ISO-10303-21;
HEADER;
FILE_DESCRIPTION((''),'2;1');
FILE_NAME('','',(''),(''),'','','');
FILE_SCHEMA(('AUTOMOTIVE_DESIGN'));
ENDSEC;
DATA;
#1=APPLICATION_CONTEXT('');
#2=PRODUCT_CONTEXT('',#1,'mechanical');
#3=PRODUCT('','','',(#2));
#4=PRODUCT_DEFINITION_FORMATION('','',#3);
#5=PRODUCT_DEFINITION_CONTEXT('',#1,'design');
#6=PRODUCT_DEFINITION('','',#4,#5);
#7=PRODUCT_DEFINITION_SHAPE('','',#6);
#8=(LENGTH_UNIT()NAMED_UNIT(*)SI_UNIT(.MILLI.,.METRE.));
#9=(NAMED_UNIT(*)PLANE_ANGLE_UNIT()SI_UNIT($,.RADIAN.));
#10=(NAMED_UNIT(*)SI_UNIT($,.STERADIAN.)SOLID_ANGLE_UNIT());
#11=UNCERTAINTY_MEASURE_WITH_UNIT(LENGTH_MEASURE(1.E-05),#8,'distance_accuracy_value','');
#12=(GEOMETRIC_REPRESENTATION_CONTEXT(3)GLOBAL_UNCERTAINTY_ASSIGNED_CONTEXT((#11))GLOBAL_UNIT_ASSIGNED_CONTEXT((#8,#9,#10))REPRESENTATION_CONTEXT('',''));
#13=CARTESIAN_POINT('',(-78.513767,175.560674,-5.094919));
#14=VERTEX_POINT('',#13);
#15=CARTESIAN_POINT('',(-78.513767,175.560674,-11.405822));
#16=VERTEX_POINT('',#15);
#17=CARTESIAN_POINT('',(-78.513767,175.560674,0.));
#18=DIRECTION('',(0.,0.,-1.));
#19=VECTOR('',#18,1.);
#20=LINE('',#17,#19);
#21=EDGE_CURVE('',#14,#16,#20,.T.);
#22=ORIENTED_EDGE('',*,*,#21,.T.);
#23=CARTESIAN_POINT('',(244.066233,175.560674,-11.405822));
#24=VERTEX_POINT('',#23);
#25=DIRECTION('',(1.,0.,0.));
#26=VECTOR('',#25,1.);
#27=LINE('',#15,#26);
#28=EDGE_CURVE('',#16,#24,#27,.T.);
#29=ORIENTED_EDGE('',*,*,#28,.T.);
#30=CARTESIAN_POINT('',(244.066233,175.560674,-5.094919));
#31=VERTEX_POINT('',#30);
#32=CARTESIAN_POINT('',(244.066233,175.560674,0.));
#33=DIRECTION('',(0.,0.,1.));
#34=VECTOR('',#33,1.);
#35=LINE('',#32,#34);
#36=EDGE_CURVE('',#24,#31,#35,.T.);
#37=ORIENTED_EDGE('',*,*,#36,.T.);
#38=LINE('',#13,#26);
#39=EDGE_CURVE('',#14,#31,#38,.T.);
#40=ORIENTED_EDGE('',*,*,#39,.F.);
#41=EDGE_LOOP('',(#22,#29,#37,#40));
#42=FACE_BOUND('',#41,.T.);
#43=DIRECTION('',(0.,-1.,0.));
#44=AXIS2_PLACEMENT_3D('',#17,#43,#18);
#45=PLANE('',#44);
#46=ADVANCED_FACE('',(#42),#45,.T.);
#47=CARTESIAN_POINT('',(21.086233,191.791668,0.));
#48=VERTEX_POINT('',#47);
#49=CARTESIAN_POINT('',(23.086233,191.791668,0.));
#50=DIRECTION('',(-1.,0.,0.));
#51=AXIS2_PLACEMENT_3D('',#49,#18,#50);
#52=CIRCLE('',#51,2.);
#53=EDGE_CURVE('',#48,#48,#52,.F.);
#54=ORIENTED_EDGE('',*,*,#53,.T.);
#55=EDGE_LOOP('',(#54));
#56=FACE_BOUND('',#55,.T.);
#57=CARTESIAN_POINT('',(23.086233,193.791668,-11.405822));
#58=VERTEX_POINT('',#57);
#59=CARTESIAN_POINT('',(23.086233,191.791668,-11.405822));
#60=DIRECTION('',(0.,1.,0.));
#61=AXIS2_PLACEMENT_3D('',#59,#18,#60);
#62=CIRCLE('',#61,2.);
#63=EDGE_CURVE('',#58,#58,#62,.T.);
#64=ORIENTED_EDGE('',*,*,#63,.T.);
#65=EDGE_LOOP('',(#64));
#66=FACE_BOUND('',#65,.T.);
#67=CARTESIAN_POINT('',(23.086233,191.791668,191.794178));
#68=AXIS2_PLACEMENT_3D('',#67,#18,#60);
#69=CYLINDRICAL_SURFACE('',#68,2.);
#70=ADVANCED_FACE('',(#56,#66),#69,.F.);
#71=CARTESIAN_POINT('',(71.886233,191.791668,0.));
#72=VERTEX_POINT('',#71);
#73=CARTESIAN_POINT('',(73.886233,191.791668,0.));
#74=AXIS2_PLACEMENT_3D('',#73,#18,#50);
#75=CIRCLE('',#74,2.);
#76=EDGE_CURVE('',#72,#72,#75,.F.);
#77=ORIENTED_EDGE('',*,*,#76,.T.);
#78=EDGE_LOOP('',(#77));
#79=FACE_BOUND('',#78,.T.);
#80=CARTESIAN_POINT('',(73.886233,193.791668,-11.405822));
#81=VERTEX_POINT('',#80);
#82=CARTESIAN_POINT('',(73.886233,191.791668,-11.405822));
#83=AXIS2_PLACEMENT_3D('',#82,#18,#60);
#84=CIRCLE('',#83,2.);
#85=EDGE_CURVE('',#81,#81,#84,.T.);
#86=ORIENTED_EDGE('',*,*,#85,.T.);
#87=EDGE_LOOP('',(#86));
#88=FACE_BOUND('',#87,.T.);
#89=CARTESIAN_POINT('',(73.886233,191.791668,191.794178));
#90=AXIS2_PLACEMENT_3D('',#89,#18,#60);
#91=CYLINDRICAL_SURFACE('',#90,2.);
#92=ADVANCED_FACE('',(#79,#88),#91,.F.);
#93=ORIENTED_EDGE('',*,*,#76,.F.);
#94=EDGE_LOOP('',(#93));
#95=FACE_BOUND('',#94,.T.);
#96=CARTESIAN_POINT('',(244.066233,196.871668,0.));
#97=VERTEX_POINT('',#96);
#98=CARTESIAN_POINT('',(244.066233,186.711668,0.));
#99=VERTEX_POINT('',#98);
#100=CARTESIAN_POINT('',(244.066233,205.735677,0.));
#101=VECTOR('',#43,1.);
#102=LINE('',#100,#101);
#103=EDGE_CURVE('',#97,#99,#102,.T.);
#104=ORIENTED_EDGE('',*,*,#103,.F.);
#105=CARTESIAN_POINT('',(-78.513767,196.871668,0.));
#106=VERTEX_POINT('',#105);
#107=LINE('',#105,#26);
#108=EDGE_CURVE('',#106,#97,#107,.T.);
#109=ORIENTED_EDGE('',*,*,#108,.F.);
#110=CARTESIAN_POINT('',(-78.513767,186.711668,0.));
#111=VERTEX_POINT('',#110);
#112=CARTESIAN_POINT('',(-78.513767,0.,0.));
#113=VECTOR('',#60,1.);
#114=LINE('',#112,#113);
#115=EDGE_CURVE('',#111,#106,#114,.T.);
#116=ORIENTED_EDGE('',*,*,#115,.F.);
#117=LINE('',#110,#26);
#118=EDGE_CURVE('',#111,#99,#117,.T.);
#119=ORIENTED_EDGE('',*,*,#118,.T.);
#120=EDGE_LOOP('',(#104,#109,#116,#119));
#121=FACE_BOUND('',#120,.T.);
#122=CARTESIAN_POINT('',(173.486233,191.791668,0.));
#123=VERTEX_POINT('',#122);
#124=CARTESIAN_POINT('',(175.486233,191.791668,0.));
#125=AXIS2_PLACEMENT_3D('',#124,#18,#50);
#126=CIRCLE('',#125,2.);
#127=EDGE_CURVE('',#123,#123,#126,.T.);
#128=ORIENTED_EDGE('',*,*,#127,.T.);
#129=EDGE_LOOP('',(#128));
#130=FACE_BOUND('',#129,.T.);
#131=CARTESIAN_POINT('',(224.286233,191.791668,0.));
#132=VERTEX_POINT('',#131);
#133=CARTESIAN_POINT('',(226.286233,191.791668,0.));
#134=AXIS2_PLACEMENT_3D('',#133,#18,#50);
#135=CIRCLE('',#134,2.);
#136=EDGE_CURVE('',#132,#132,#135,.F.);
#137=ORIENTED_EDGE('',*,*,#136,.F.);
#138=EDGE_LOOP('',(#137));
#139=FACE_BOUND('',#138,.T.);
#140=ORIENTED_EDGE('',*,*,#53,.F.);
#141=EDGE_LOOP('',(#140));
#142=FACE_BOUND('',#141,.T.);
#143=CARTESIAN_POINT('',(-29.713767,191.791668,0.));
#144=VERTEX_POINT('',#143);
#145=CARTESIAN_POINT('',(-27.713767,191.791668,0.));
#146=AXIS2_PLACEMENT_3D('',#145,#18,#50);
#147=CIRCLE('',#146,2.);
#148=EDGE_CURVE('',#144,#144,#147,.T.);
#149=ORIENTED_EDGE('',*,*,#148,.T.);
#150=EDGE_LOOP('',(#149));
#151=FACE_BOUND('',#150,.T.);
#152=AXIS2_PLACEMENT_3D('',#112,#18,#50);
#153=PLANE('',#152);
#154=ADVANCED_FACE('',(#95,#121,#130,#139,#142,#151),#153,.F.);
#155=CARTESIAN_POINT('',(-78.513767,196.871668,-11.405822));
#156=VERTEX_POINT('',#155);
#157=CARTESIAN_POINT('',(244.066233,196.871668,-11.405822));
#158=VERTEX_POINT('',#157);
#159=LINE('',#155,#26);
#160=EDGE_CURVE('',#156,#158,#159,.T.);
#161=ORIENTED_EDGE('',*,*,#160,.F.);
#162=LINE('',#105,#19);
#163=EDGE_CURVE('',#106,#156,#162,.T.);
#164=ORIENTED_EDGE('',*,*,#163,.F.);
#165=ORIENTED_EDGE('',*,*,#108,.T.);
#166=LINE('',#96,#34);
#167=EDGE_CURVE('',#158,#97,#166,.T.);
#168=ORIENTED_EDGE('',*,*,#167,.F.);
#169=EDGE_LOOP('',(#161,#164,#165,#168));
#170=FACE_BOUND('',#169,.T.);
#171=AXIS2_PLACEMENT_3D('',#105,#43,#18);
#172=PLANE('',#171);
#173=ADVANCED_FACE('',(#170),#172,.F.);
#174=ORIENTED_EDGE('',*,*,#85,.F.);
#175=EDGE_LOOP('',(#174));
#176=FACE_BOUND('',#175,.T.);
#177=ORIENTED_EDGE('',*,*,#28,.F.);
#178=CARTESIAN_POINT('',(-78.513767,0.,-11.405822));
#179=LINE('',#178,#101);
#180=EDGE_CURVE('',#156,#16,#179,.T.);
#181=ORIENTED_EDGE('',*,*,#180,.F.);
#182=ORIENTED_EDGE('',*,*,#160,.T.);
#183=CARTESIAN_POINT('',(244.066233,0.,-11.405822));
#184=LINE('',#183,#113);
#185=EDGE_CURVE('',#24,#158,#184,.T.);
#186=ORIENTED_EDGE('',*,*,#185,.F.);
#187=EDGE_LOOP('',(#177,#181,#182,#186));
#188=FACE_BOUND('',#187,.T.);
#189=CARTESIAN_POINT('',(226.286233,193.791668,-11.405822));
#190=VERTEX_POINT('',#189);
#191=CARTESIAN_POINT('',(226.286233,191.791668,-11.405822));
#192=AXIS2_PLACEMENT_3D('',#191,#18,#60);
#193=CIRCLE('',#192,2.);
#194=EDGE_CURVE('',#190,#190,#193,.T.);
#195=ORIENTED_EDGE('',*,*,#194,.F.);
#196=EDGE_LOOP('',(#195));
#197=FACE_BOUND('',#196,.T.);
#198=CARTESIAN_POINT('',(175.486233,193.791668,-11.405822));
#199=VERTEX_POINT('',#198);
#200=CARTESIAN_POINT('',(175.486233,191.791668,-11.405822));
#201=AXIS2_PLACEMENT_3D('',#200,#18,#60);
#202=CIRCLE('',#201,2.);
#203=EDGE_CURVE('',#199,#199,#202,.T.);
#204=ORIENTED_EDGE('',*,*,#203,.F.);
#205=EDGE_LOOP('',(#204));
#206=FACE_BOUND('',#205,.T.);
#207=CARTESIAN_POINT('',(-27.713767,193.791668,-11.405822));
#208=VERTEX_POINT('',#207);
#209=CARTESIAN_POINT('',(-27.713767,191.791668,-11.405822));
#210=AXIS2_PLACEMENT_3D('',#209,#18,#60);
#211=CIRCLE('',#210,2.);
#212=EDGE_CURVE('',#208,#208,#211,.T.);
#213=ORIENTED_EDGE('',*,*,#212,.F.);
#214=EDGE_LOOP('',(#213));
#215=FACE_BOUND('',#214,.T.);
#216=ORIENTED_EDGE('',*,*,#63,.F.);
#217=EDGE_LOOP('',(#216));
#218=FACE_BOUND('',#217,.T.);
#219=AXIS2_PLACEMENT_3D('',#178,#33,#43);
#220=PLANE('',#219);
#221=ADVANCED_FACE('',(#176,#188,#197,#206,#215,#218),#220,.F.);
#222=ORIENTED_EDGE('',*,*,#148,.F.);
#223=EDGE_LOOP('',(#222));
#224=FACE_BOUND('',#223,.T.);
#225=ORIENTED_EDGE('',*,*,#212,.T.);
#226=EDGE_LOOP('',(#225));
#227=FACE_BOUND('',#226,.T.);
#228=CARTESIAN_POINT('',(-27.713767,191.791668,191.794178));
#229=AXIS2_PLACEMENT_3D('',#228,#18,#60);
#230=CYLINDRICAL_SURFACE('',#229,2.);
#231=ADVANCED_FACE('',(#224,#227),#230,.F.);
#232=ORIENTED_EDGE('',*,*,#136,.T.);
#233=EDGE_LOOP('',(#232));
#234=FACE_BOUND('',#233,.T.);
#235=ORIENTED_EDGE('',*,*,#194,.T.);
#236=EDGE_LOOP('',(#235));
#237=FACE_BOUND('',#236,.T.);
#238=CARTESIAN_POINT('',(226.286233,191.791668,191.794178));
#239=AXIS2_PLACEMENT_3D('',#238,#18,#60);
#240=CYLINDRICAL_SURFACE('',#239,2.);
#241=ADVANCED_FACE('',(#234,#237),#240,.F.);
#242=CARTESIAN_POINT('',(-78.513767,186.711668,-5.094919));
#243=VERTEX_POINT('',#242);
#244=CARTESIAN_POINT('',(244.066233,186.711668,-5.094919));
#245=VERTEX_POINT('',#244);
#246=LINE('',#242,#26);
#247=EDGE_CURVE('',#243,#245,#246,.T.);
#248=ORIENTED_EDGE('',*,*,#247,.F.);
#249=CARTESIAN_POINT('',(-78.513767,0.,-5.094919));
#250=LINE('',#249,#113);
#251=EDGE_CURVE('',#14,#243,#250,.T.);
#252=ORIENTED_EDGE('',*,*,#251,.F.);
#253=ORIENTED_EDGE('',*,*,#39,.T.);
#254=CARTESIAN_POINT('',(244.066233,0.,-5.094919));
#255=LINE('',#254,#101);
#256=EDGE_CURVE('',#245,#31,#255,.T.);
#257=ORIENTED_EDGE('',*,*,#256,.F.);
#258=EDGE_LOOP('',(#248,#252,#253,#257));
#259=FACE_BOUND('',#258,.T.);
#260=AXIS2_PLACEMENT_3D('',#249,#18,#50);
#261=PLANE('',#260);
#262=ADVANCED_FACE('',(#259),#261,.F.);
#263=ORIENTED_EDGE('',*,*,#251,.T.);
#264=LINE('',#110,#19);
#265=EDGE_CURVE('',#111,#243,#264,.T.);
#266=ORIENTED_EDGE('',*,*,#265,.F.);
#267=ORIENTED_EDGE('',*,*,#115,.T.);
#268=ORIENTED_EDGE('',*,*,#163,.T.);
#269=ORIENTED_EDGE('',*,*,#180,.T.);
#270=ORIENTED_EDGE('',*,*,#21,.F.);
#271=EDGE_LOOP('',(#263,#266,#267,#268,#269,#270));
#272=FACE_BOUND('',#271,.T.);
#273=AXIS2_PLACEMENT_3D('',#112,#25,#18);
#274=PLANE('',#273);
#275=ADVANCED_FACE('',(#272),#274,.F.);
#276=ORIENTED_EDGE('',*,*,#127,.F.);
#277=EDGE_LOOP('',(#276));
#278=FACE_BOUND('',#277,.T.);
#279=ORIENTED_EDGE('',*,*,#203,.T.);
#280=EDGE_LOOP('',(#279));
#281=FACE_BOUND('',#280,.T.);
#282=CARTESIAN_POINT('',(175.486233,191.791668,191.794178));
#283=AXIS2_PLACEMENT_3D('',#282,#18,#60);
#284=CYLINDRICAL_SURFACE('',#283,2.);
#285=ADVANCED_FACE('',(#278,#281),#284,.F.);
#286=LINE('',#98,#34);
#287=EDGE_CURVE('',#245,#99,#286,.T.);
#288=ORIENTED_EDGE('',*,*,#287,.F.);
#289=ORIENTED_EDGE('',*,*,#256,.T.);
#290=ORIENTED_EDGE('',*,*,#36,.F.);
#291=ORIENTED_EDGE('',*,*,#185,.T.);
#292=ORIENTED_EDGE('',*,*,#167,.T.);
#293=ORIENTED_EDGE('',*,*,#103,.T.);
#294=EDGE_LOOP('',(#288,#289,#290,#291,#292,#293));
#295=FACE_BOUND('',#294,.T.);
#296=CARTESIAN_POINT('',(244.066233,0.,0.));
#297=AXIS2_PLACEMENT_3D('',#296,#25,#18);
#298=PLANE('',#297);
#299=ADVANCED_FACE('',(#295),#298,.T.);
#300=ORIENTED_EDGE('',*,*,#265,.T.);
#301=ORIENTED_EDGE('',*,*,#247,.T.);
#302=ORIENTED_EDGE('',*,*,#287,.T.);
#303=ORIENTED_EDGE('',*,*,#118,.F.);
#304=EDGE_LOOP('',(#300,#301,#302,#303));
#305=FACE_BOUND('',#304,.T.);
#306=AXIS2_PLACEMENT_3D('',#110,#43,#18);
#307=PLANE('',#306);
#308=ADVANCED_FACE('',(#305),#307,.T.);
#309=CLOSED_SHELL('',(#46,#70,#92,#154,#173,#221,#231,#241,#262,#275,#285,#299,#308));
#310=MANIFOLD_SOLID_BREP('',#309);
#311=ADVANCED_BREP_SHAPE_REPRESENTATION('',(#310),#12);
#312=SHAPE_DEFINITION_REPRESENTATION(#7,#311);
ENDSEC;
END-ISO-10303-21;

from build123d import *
from build123d.topology import SkipClean

# Parameters (mm, degrees)
BOSS_EXTRUDE1_DEPTH     = 177.8
SKETCH2_R               = 6.35
BOSS_EXTRUDE2_DEPTH     = 3.175
CUT_EXTRUDE1_DEPTH      = 7.62
SKETCH4_R               = 35.56
CUT_EXTRUDE2_DEPTH      = 5.08
BOSS_EXTRUDE3_DEPTH     = 3.175
BOSS_EXTRUDE4_START     = -3.175
BOSS_EXTRUDE4_DEPTH     = 3.175
SKETCH2_3_R             = 6.35
CUT_EXTRUDE3_DEPTH      = 203.2
SKETCH7_W               = 104.303861479
SKETCH7_H               = 17.78
CUT_EXTRUDE4_DEPTH      = 7.62
SKETCH9_W               = 5.09491902
SKETCH9_H               = 10.16
BOSS_EXTRUDE5_DEPTH     = 373.38
SKETCH10_W              = 16.389929124
SKETCH10_H              = 55.852942909
CUT_EXTRUDE5_DEPTH      = 50.8
SKETCH11_W              = 37.311204657
SKETCH11_H              = 70.036499624
CUT_EXTRUDE6_DEPTH      = 63.5
CUT_EXTRUDE_THIN3_DEPTH = 1.27
BOSS_EXTRUDE6_DEPTH     = 1.27
BOSS_EXTRUDE6_2_DEPTH   = 1.27
BOSS_EXTRUDE6_3_DEPTH   = 1.27
BOSS_EXTRUDE6_4_DEPTH   = 1.27
SKETCH14_R              = 6.35
CUT_EXTRUDE7_DEPTH      = 6.35
SKETCH15_R              = 6.35
CUT_EXTRUDE8_DEPTH      = 6.35
SKETCH16_R              = 2
CUT_EXTRUDE9_DEPTH      = 203.2
SKETCH17_R              = 2
CUT_EXTRUDE10_DEPTH     = 50.8
CUT_EXTRUDE11_DEPTH     = 50.8
CUT_EXTRUDE12_DEPTH     = 135.636
SKETCH20_W              = 88.9
SKETCH20_H              = 19.05
CUT_EXTRUDE13_DEPTH     = 25.4
SKETCH22_W              = 88.9
SKETCH22_H              = 19.05
CUT_EXTRUDE14_DEPTH     = 25.4
CUT_EXTRUDE15_DEPTH     = 12.7
SKETCH24_R              = 1.5
CUT_EXTRUDE16_DEPTH     = 12.7
SKETCH25_W              = 227.828611999
SKETCH25_H              = 364.913546761
CUT_EXTRUDE17_DEPTH     = 381


with BuildPart() as part:
    # Sketch1 → Boss-Extrude1 (new body)
    with BuildSketch(Plane.XY):
        Polygon((174.206706958, 205.225588808), (176.700980282, 203.057350086), (6.59291173, 7.37040221), (4.098638405, 9.538640932), align=None)
        Polygon((176.700980282, 203.057350086), (176.700980282, 207.584488047), (174.206706958, 205.225588808), align=None)
        Polygon((176.700980282, 203.057350086), (176.700980282, 207.584488047), (294.86623267, 79.97762329), (292.609334988, 77.887713122), align=None)
        Polygon((176.700980282, 203.057350086), (6.59291173, 7.37040221), (11.706315855, 7.37040221), (176.700980282, 197.43083223), align=None)
        Polygon((292.609334988, 77.887713122), (179.222024463, 200.334870023), (176.700980282, 197.43083223), (289.802992908, 75.306026972), align=None)
        Polygon((179.222024463, 200.334870023), (176.700980282, 203.057350086), (176.700980282, 197.43083223), align=None)
    extrude(amount=BOSS_EXTRUDE1_DEPTH)

    # Sketch2 → Boss-Extrude2 (add)
    with BuildSketch(Plane(origin=(0, 0, 0), x_dir=(-1, 0, 0), z_dir=(0, 0, -1))):
        Polygon((-176.700980282, 207.584488047), (-294.86623267, 79.97762329), (-294.86623267, 308.57762329), (-4.03623267, 308.57762329), (-4.03623267, 9.466851346), align=None)
        with Locations((-109.551832016, 215.6073789)):
            Circle(SKETCH2_R, mode=Mode.SUBTRACT)
        with Locations((-50.099162461, 143.63835786)):
            Circle(SKETCH2_R, mode=Mode.SUBTRACT)
    boss_extrude2 = extrude(amount=-BOSS_EXTRUDE2_DEPTH)

    # Mirror1: Boss-Extrude2 across plane
    add(boss_extrude2.mirror(Plane.XY.offset(88.9)))

    # Sketch3 → Cut-Extrude1 (cut)
    with BuildSketch(Plane(origin=(-2.388376456, 2.076183978, 0), x_dir=(0.6560590289905027, 0.754709580222776, 0), z_dir=(-0.754709580222776, 0.6560590289905027, 0))):
        Polygon((146.938003774, -3.175), (147.021985505, -88.9), (210.43489334, -88.9), (210.43489334, -3.175), align=None)
        Polygon((210.43489334, -88.9), (147.021985505, -88.9), (147.047852426, -115.303859178), (210.43489334, -115.303859178), align=None)
    extrude(amount=-CUT_EXTRUDE1_DEPTH, mode=Mode.SUBTRACT)

    # Sketch4 → Cut-Extrude2 (cut)
    with BuildSketch(Plane.XY.offset(3.175)):
        with Locations((115.138547862, 136.94700246)):
            Circle(SKETCH4_R)
    extrude(amount=-CUT_EXTRUDE2_DEPTH, mode=Mode.SUBTRACT)

    # Sketch5 → Boss-Extrude3 (add)
    with BuildSketch(Plane(origin=(0, 0, 0), x_dir=(-1, 0, 0), z_dir=(0, 0, -1))):
        with BuildLine():
            Line((23.718677813, 87.809342908), (-4.03623267, 87.809342908))
            Line((-4.03623267, 87.809342908), (-4.03623267, 68.97229904))
            ThreePointArc((-4.03623267, 68.97229904), (2.710389506, 69.812621892), (6.35, 64.070123417))
            ThreePointArc((6.35, 64.070123417), (2.710389506, 58.327624943), (-4.03623267, 59.167947795))
            Line((-4.03623267, 59.167947795), (-4.03623267, 41.258157594))
            Line((-4.03623267, 41.258157594), (23.718677813, 41.258157594))
            Line((23.718677813, 41.258157594), (23.718677813, 87.809342908))
        make_face()
    extrude(amount=-BOSS_EXTRUDE3_DEPTH)

    # Sketch6 → Boss-Extrude4 (add)
    with BuildSketch(Plane.XY.offset(177.8).offset(BOSS_EXTRUDE4_START)):
        with BuildLine():
            Line((4.03623267, 68.97229904), (4.03623267, 87.809342908))
            Line((4.03623267, 87.809342908), (-23.718677813, 87.809342908))
            Line((-23.718677813, 87.809342908), (-23.718677813, 41.258157594))
            Line((-23.718677813, 41.258157594), (4.03623267, 41.258157594))
            Line((4.03623267, 41.258157594), (4.03623267, 59.167947795))
            ThreePointArc((4.03623267, 59.167947795), (-6.35, 64.070123417), (4.03623267, 68.97229904))
        make_face()
    extrude(amount=BOSS_EXTRUDE4_DEPTH)

    # Sketch2<3> → Cut-Extrude3 (cut)
    with SkipClean():  # the faces are left unmerged after this step: merging them gives an invalid solid
        with BuildSketch(Plane(origin=(0, 0, 0), x_dir=(-1, 0, 0), z_dir=(0, 0, -1))):
            with Locations((0, 64.070123417)):
                Circle(SKETCH2_3_R)
        extrude(amount=-CUT_EXTRUDE3_DEPTH, mode=Mode.SUBTRACT)

    # Sketch7 → Cut-Extrude4 (cut)
    with SkipClean():  # the faces are left unmerged after this step: merging them gives an invalid solid
        with BuildSketch(Plane(origin=(198.614996443, 183.919503291, 0), x_dir=(0, 0, -1), z_dir=(0.7337298645028701, 0.6794413042615234, 0))):
            with Locations((-88.799310538, -132.772327008)):
                Rectangle(SKETCH7_W, SKETCH7_H)
        extrude(amount=-CUT_EXTRUDE4_DEPTH, mode=Mode.SUBTRACT)

    # Sketch9 → Boss-Extrude5 (add)
    with SkipClean():  # the faces are left unmerged after this step: merging them gives an invalid solid
        with BuildSketch(Plane(origin=(294.86623267, 0, 0), x_dir=(0, 0, -1), z_dir=(1, 0, 0))):
            with Locations((2.54745951, 191.791667894)):
                Rectangle(SKETCH9_W, SKETCH9_H)
            Polygon((5.09491902, 196.871667894), (5.09491902, 186.711667894), (5.09491902, 175.560674011), (11.405822058, 175.560674011), (11.405822058, 196.871667894), align=None)
        boss_extrude5 = extrude(amount=-BOSS_EXTRUDE5_DEPTH)

    # Mirror2: Boss-Extrude5 across plane
    with SkipClean():  # the faces are left unmerged after this step: merging them gives an invalid solid
        add(boss_extrude5.mirror(Plane.XY.offset(88.9)))

    # Sketch10 → Cut-Extrude5 (cut)
    with SkipClean():  # the faces are left unmerged after this step: merging them gives an invalid solid
        with BuildSketch(Plane(origin=(294.86623267, 0, 0), x_dir=(0, 0, -1), z_dir=(1, 0, 0))):
            with Locations((8.194964562, 177.809205996)):
                Rectangle(SKETCH10_W, SKETCH10_H)
        extrude(amount=-CUT_EXTRUDE5_DEPTH, mode=Mode.SUBTRACT)

    # Sketch11 → Cut-Extrude6 (cut)
    with SkipClean():  # the faces are left unmerged after this step: merging them gives an invalid solid
        with BuildSketch(Plane(origin=(0, 0, 0), x_dir=(-1, 0, 0), z_dir=(0, 0, -1))):
            with Locations((-276.210630342, 174.143668429)):
                Rectangle(SKETCH11_W, SKETCH11_H)
        extrude(amount=-CUT_EXTRUDE6_DEPTH, mode=Mode.SUBTRACT)

    # Sketch12 → Cut-Extrude-Thin3 (cut)
    with SkipClean():  # the faces are left unmerged after this step: merging them gives an invalid solid
        with BuildSketch(Plane(origin=(198.614996443, 183.919503291, 0), x_dir=(0, 0, -1), z_dir=(0.7337298645028701, 0.6794413042615234, 0))):
            Polygon((-171.532951818, 28.022585612), (-143.20199229, -115.162103868), (-139.962790584, -114.521185535), (-168.293750113, 28.663503944), align=None)
            Polygon((-33.454545449, -115.162103868), (-6.228065693, 28.022585612), (-9.471942339, 28.639406741), (-36.698422095, -114.545282739), align=None)
        extrude(amount=-CUT_EXTRUDE_THIN3_DEPTH, mode=Mode.SUBTRACT)

    # Sketch14 → Cut-Extrude7 (cut)
    with SkipClean():  # the faces are left unmerged after this step: merging them gives an invalid solid
        with BuildSketch(Plane.XY.offset(3.175)):
            with Locations((25.62623267, 167.726388192)):
                Circle(SKETCH14_R)
        extrude(amount=-CUT_EXTRUDE7_DEPTH, mode=Mode.SUBTRACT)

    # Sketch15 → Cut-Extrude8 (cut)
    with SkipClean():  # the faces are left unmerged after this step: merging them gives an invalid solid
        with BuildSketch(Plane.XY.offset(177.8)):
            with Locations((25.62623267, 167.726388192)):
                Circle(SKETCH15_R)
        extrude(amount=-CUT_EXTRUDE8_DEPTH, mode=Mode.SUBTRACT)

    # Sketch16 → Cut-Extrude9 (cut)
    with SkipClean():  # the faces are left unmerged after this step: merging them gives an invalid solid
        with BuildSketch(Plane(origin=(0, 0, -11.405822058), x_dir=(-1, 0, 0), z_dir=(0, 0, -1))):
            with Locations(Location((-226.28623267, 191.791667894, 0), (0, 0, 180))):
                Circle(SKETCH16_R)
            with Locations(Location((-175.48623267, 191.791667894, 0), (0, 0, 90))):
                Circle(SKETCH16_R)
            with Locations(Location((-73.88623267, 191.791667894, 0), (0, 0, 180))):
                Circle(SKETCH16_R)
            with Locations(Location((-23.08623267, 191.791667894, 0), (0, 0, 180))):
                Circle(SKETCH16_R)
            with Locations(Location((27.71376733, 191.791667894, 0), (0, 0, 90))):
                Circle(SKETCH16_R)
        extrude(amount=-CUT_EXTRUDE9_DEPTH, mode=Mode.SUBTRACT)

    # Sketch17 → Cut-Extrude10 (cut)
    with SkipClean():  # the faces are left unmerged after this step: merging them gives an invalid solid
        with BuildSketch(Plane.XY.offset(189.205822058)):
            with Locations((272.00623267, 191.73762329)):
                Circle(SKETCH17_R)
        extrude(amount=-CUT_EXTRUDE10_DEPTH, mode=Mode.SUBTRACT)

    # Sketch18 → Cut-Extrude11 (cut)
    with SkipClean():  # the faces are left unmerged after this step: merging them gives an invalid solid
        with BuildSketch(Plane(origin=(198.614996443, 183.919503291, 0), x_dir=(0, 0, -1), z_dir=(0.7337298645028701, 0.6794413042615234, 0))):
            Polygon((-170.82495725, -33.509501551), (-170.82495725, -115.912858784), (-148.021512482, -115.912858784), (-165.124096058, -33.509501551), align=None)
        extrude(amount=-CUT_EXTRUDE11_DEPTH, mode=Mode.SUBTRACT)

    # Sketch19 → Cut-Extrude12 (cut)
    with SkipClean():  # the faces are left unmerged after this step: merging them gives an invalid solid
        with BuildSketch(Plane(origin=(198.614996443, 183.919503291, 0), x_dir=(0, 0, -1), z_dir=(0.7337298645028701, 0.6794413042615234, 0))):
            Polygon((-27.790980507, -115.912858784), (-12.83560064, -35.35545082), (-7.206169917, -35.35545082), (-7.206169917, -115.912858784), align=None)
        extrude(amount=-CUT_EXTRUDE12_DEPTH, mode=Mode.SUBTRACT)

    # Sketch20 → Cut-Extrude13 (cut)
    with SkipClean():  # the faces are left unmerged after this step: merging them gives an invalid solid
        with BuildSketch(Plane.XY.offset(177.8)):
            with BuildLine():
                Line((162.857920191, 291.02562329), (162.857920191, 292.57562329))
                Line((162.857920191, 292.57562329), (164.407920191, 292.57562329))
                ThreePointArc((164.407920191, 292.57562329), (161.76190468, 293.671638801), (162.857920191, 291.02562329))
            make_face()
            with BuildLine():
                Line((164.407920191, 292.57562329), (162.857920191, 292.57562329))
                Line((162.857920191, 292.57562329), (162.857920191, 291.02562329))
                ThreePointArc((162.857920191, 291.02562329), (163.953935702, 291.479607779), (164.407920191, 292.57562329))
            make_face()
            with BuildLine():
                ThreePointArc((266.007920191, 292.57562329), (264.457920191, 294.12562329), (262.907920191, 292.57562329))
                Line((262.907920191, 292.57562329), (264.457920191, 292.57562329))
                Line((264.457920191, 292.57562329), (264.457920191, 291.02562329))
                ThreePointArc((264.457920191, 291.02562329), (265.553935702, 291.479607779), (266.007920191, 292.57562329))
            make_face()
            with BuildLine():
                Line((264.457920191, 292.57562329), (262.907920191, 292.57562329))
                ThreePointArc((262.907920191, 292.57562329), (263.36190468, 291.479607779), (264.457920191, 291.02562329))
                Line((264.457920191, 291.02562329), (264.457920191, 292.57562329))
            make_face()
            with BuildLine():
                ThreePointArc((164.407920191, 241.77562329), (163.953935702, 242.871638801), (162.857920191, 243.32562329))
                Line((162.857920191, 243.32562329), (162.857920191, 241.77562329))
                Line((162.857920191, 241.77562329), (164.407920191, 241.77562329))
            make_face()
            with BuildLine():
                Line((162.857920191, 241.77562329), (162.857920191, 243.32562329))
                ThreePointArc((162.857920191, 243.32562329), (161.76190468, 240.679607779), (164.407920191, 241.77562329))
                Line((164.407920191, 241.77562329), (162.857920191, 241.77562329))
            make_face()
            with BuildLine():
                ThreePointArc((266.007920191, 241.77562329), (265.553935702, 242.871638801), (264.457920191, 243.32562329))
                Line((264.457920191, 243.32562329), (264.457920191, 241.77562329))
                Line((264.457920191, 241.77562329), (262.907920191, 241.77562329))
                ThreePointArc((262.907920191, 241.77562329), (264.457920191, 240.22562329), (266.007920191, 241.77562329))
            make_face()
            with BuildLine():
                Line((264.457920191, 241.77562329), (264.457920191, 243.32562329))
                ThreePointArc((264.457920191, 243.32562329), (263.36190468, 242.871638801), (262.907920191, 241.77562329))
                Line((262.907920191, 241.77562329), (264.457920191, 241.77562329))
            make_face()
            with Locations((213.657920191, 282.969686208)):
                Rectangle(SKETCH20_W, SKETCH20_H)
        extrude(amount=-CUT_EXTRUDE13_DEPTH, mode=Mode.SUBTRACT)

    # Sketch22 → Cut-Extrude14 (cut)
    with SkipClean():  # the faces are left unmerged after this step: merging them gives an invalid solid
        with BuildSketch(Plane(origin=(0, 0, 0), x_dir=(-1, 0, 0), z_dir=(0, 0, -1))):
            with BuildLine():
                Line((-264.581570713, 291.02562329), (-264.581570713, 292.57562329))
                Line((-264.581570713, 292.57562329), (-263.031570713, 292.57562329))
                ThreePointArc((-263.031570713, 292.57562329), (-265.677586224, 293.671638801), (-264.581570713, 291.02562329))
            make_face()
            with BuildLine():
                Line((-263.031570713, 292.57562329), (-264.581570713, 292.57562329))
                Line((-264.581570713, 292.57562329), (-264.581570713, 291.02562329))
                ThreePointArc((-264.581570713, 291.02562329), (-263.485555202, 291.479607779), (-263.031570713, 292.57562329))
            make_face()
            with BuildLine():
                ThreePointArc((-263.031570713, 241.77562329), (-263.485555202, 242.871638801), (-264.581570713, 243.32562329))
                Line((-264.581570713, 243.32562329), (-264.581570713, 241.77562329))
                Line((-264.581570713, 241.77562329), (-263.031570713, 241.77562329))
            make_face()
            with BuildLine():
                Line((-264.581570713, 241.77562329), (-264.581570713, 243.32562329))
                ThreePointArc((-264.581570713, 243.32562329), (-265.677586224, 240.679607779), (-263.031570713, 241.77562329))
                Line((-263.031570713, 241.77562329), (-264.581570713, 241.77562329))
            make_face()
            with BuildLine():
                ThreePointArc((-161.431570713, 292.57562329), (-162.981570713, 294.12562329), (-164.531570713, 292.57562329))
                Line((-164.531570713, 292.57562329), (-162.981570713, 292.57562329))
                Line((-162.981570713, 292.57562329), (-162.981570713, 291.02562329))
                ThreePointArc((-162.981570713, 291.02562329), (-161.885555202, 291.479607779), (-161.431570713, 292.57562329))
            make_face()
            with BuildLine():
                Line((-162.981570713, 292.57562329), (-164.531570713, 292.57562329))
                ThreePointArc((-164.531570713, 292.57562329), (-164.077586224, 291.479607779), (-162.981570713, 291.02562329))
                Line((-162.981570713, 291.02562329), (-162.981570713, 292.57562329))
            make_face()
            with BuildLine():
                ThreePointArc((-161.431570713, 241.77562329), (-161.885555202, 242.871638801), (-162.981570713, 243.32562329))
                Line((-162.981570713, 243.32562329), (-162.981570713, 241.77562329))
                Line((-162.981570713, 241.77562329), (-164.531570713, 241.77562329))
                ThreePointArc((-164.531570713, 241.77562329), (-162.981570713, 240.22562329), (-161.431570713, 241.77562329))
            make_face()
            with BuildLine():
                Line((-162.981570713, 241.77562329), (-162.981570713, 243.32562329))
                ThreePointArc((-162.981570713, 243.32562329), (-164.077586224, 242.871638801), (-164.531570713, 241.77562329))
                Line((-164.531570713, 241.77562329), (-162.981570713, 241.77562329))
            make_face()
            with Locations((-213.781570713, 283.028383525)):
                Rectangle(SKETCH22_W, SKETCH22_H)
        extrude(amount=-CUT_EXTRUDE14_DEPTH, mode=Mode.SUBTRACT)

    # Sketch23 → Cut-Extrude15 (cut)
    with SkipClean():  # the faces are left unmerged after this step: merging them gives an invalid solid
        with BuildSketch(Plane(origin=(0, 0, 0), x_dir=(-1, 0, 0), z_dir=(0, 0, -1))):
            with BuildLine():
                ThreePointArc((-281.46966057, 89.27791623), (-283.589396682, 89.195947845), (-283.507428297, 87.076211733))
                Line((-283.507428297, 87.076211733), (-281.46966057, 89.27791623))
            make_face()
            with BuildLine():
                Line((-281.46966057, 89.27791623), (-283.507428297, 87.076211733))
                ThreePointArc((-283.507428297, 87.076211733), (-281.887847254, 86.802595758), (-280.988544434, 88.177063981))
                ThreePointArc((-280.988544434, 88.177063981), (-281.11407621, 88.777761162), (-281.46966057, 89.27791623))
            make_face()
            with BuildLine():
                ThreePointArc((-261.677113571, 110.662757672), (-263.796849683, 110.580789287), (-263.714881298, 108.461053175))
                Line((-263.714881298, 108.461053175), (-261.677113571, 110.662757672))
            make_face()
            with BuildLine():
                Line((-261.677113571, 110.662757672), (-263.714881298, 108.461053175))
                ThreePointArc((-263.714881298, 108.461053175), (-262.095300254, 108.1874372), (-261.195997434, 109.561905424))
                ThreePointArc((-261.195997434, 109.561905424), (-261.321529211, 110.162602604), (-261.677113571, 110.662757672))
            make_face()
            with BuildLine():
                ThreePointArc((-242.471013434, 131.413973074), (-244.590749546, 131.332004689), (-244.508781161, 129.212268577))
                Line((-244.508781161, 129.212268577), (-242.471013434, 131.413973074))
            make_face()
            with BuildLine():
                Line((-242.471013434, 131.413973074), (-244.508781161, 129.212268577))
                ThreePointArc((-244.508781161, 129.212268577), (-242.889200117, 128.938652602), (-241.989897298, 130.313120826))
                ThreePointArc((-241.989897298, 130.313120826), (-242.115429074, 130.913818006), (-242.471013434, 131.413973074))
            make_face()
            with BuildLine():
                ThreePointArc((-221.219107983, 154.375577179), (-223.338844094, 154.293608794), (-223.256875709, 152.173872682))
                Line((-223.256875709, 152.173872682), (-221.219107983, 154.375577179))
            make_face()
            with BuildLine():
                Line((-221.219107983, 154.375577179), (-223.256875709, 152.173872682))
                ThreePointArc((-223.256875709, 152.173872682), (-221.637294666, 151.900256707), (-220.737991846, 153.274724931))
                ThreePointArc((-220.737991846, 153.274724931), (-220.863523622, 153.875422111), (-221.219107983, 154.375577179))
            make_face()
            with BuildLine():
                ThreePointArc((-145.886078234, 168.131923716), (-146.764955289, 169.497283115), (-148.371686616, 169.262665118))
                Line((-148.371686616, 169.262665118), (-146.400469852, 167.001182315))
                ThreePointArc((-146.400469852, 167.001182315), (-146.020718836, 167.510800771), (-145.886078234, 168.131923716))
            make_face()
            with BuildLine():
                Line((-146.400469852, 167.001182315), (-148.371686616, 169.262665118))
                ThreePointArc((-148.371686616, 169.262665118), (-148.516819636, 167.146315334), (-146.400469852, 167.001182315))
            make_face()
            with BuildLine():
                ThreePointArc((-49.387047149, 57.423196347), (-50.265924204, 58.788555745), (-51.872655531, 58.553937749))
                Line((-51.872655531, 58.553937749), (-49.901438767, 56.292454945))
                ThreePointArc((-49.901438767, 56.292454945), (-49.521687751, 56.802073401), (-49.387047149, 57.423196347))
            make_face()
            with BuildLine():
                Line((-49.901438767, 56.292454945), (-51.872655531, 58.553937749))
                ThreePointArc((-51.872655531, 58.553937749), (-52.017788551, 56.437587965), (-49.901438767, 56.292454945))
            make_face()
            with BuildLine():
                ThreePointArc((-31.668427664, 37.095470857), (-32.547304719, 38.460830256), (-34.154036046, 38.226212259))
                Line((-34.154036046, 38.226212259), (-32.182819282, 35.964729456))
                ThreePointArc((-32.182819282, 35.964729456), (-31.803068266, 36.474347912), (-31.668427664, 37.095470857))
            make_face()
            with BuildLine():
                Line((-32.182819282, 35.964729456), (-34.154036046, 38.226212259))
                ThreePointArc((-34.154036046, 38.226212259), (-34.299169066, 36.109862475), (-32.182819282, 35.964729456))
            make_face()
            with BuildLine():
                ThreePointArc((-16.066850555, 19.196526928), (-16.94572761, 20.561886326), (-18.552458937, 20.327268329))
                Line((-18.552458937, 20.327268329), (-16.581242173, 18.065785526))
                ThreePointArc((-16.581242173, 18.065785526), (-16.201491157, 18.575403982), (-16.066850555, 19.196526928))
            make_face()
            with BuildLine():
                Line((-16.581242173, 18.065785526), (-18.552458937, 20.327268329))
                ThreePointArc((-18.552458937, 20.327268329), (-18.697591957, 18.210918546), (-16.581242173, 18.065785526))
            make_face()
        extrude(amount=-CUT_EXTRUDE15_DEPTH, mode=Mode.SUBTRACT)

    # Sketch24 → Cut-Extrude16 (cut)
    with SkipClean():  # the faces are left unmerged after this step: merging them gives an invalid solid
        with BuildSketch(Plane.XY.offset(177.8)):
            with Locations((277.221839581, 93.68533948)):
                Circle(SKETCH24_R)
            with Locations((256.088046252, 116.620130178)):
                Circle(SKETCH24_R)
            with Locations((233.352788284, 141.292860476)):
                Circle(SKETCH24_R)
            with Locations((211.758500856, 164.727388047)):
                Circle(SKETCH24_R)
            with Locations((135.020648746, 154.397680008)):
                Circle(SKETCH24_R)
            with Locations((113.672052573, 129.804959434)):
                Circle(SKETCH24_R)
            with Locations((89.546525068, 102.013326118)):
                Circle(SKETCH24_R)
            with Locations((62.67652141, 71.060167118)):
                Circle(SKETCH24_R)
            with Locations((39.522371339, 44.387521375)):
                Circle(SKETCH24_R)
        extrude(amount=-CUT_EXTRUDE16_DEPTH, mode=Mode.SUBTRACT)


with BuildPart() as body_2:
    # Sketch13 → Boss-Extrude6 (new body)
    with BuildSketch(Plane(origin=(198.614996443, 183.919503291, 0), x_dir=(0, 0, -1), z_dir=(0.7337298645028701, 0.6794413042615234, 0))):
        Polygon((-171.532951818, 28.022585612), (-171.375187306, 27.225243654), (-168.293750113, 28.663503944), align=None)
    extrude(amount=-BOSS_EXTRUDE6_DEPTH)


with BuildPart() as body_3:
    # Sketch13 → Boss-Extrude6 2 (new body)
    with BuildSketch(Plane(origin=(198.614996443, 183.919503291, 0), x_dir=(0, 0, -1), z_dir=(0.7337298645028701, 0.6794413042615234, 0))):
        Polygon((-143.20199229, -115.162103868), (-140.120555097, -113.723843577), (-139.962790584, -114.521185535), align=None)
    extrude(amount=-BOSS_EXTRUDE6_2_DEPTH)


with BuildPart() as body_4:
    # Sketch13 → Boss-Extrude6 3 (new body)
    with BuildSketch(Plane(origin=(198.614996443, 183.919503291, 0), x_dir=(0, 0, -1), z_dir=(0.7337298645028701, 0.6794413042615234, 0))):
        Polygon((-9.471942339, 28.639406741), (-6.382619108, 27.209785612), (-6.228065693, 28.022585612), align=None)
    extrude(amount=-BOSS_EXTRUDE6_3_DEPTH)


with BuildPart() as body_5:
    # Sketch13 → Boss-Extrude6 4 (new body)
    with BuildSketch(Plane(origin=(198.614996443, 183.919503291, 0), x_dir=(0, 0, -1), z_dir=(0.7337298645028701, 0.6794413042615234, 0))):
        Polygon((-36.698422095, -114.545282739), (-33.302712556, -114.363611155), (-33.454545449, -115.162103868), align=None)
    extrude(amount=-BOSS_EXTRUDE6_4_DEPTH)


with BuildPart() as cut_extrude17_tool:
    # Sketch25 → Cut-Extrude17 (new body)
    with BuildSketch(Plane(origin=(294.86623267, 0, 0), x_dir=(0, 0, -1), z_dir=(1, 0, 0))):
        with Locations((-113.914306, 126.12084991)):
            Rectangle(SKETCH25_W, SKETCH25_H)
    extrude(amount=-CUT_EXTRUDE17_DEPTH)


with BuildPart() as part_1:
    add(part.part)

    # Cut-Extrude17: cut by cut_extrude17_tool
    add(cut_extrude17_tool.part, mode=Mode.SUBTRACT)


with BuildPart() as body_2_1:
    add(body_2.part)

    # Cut-Extrude17: cut by cut_extrude17_tool
    add(cut_extrude17_tool.part, mode=Mode.SUBTRACT)


with BuildPart() as body_3_1:
    add(body_3.part)

    # Cut-Extrude17: cut by cut_extrude17_tool
    add(cut_extrude17_tool.part, mode=Mode.SUBTRACT)


with BuildPart() as body_4_1:
    add(body_4.part)

    # Cut-Extrude17: cut by cut_extrude17_tool
    add(cut_extrude17_tool.part, mode=Mode.SUBTRACT)


with BuildPart() as body_5_1:
    add(body_5.part)

    # Cut-Extrude17: cut by cut_extrude17_tool
    add(cut_extrude17_tool.part, mode=Mode.SUBTRACT)


solid = part_1.part
